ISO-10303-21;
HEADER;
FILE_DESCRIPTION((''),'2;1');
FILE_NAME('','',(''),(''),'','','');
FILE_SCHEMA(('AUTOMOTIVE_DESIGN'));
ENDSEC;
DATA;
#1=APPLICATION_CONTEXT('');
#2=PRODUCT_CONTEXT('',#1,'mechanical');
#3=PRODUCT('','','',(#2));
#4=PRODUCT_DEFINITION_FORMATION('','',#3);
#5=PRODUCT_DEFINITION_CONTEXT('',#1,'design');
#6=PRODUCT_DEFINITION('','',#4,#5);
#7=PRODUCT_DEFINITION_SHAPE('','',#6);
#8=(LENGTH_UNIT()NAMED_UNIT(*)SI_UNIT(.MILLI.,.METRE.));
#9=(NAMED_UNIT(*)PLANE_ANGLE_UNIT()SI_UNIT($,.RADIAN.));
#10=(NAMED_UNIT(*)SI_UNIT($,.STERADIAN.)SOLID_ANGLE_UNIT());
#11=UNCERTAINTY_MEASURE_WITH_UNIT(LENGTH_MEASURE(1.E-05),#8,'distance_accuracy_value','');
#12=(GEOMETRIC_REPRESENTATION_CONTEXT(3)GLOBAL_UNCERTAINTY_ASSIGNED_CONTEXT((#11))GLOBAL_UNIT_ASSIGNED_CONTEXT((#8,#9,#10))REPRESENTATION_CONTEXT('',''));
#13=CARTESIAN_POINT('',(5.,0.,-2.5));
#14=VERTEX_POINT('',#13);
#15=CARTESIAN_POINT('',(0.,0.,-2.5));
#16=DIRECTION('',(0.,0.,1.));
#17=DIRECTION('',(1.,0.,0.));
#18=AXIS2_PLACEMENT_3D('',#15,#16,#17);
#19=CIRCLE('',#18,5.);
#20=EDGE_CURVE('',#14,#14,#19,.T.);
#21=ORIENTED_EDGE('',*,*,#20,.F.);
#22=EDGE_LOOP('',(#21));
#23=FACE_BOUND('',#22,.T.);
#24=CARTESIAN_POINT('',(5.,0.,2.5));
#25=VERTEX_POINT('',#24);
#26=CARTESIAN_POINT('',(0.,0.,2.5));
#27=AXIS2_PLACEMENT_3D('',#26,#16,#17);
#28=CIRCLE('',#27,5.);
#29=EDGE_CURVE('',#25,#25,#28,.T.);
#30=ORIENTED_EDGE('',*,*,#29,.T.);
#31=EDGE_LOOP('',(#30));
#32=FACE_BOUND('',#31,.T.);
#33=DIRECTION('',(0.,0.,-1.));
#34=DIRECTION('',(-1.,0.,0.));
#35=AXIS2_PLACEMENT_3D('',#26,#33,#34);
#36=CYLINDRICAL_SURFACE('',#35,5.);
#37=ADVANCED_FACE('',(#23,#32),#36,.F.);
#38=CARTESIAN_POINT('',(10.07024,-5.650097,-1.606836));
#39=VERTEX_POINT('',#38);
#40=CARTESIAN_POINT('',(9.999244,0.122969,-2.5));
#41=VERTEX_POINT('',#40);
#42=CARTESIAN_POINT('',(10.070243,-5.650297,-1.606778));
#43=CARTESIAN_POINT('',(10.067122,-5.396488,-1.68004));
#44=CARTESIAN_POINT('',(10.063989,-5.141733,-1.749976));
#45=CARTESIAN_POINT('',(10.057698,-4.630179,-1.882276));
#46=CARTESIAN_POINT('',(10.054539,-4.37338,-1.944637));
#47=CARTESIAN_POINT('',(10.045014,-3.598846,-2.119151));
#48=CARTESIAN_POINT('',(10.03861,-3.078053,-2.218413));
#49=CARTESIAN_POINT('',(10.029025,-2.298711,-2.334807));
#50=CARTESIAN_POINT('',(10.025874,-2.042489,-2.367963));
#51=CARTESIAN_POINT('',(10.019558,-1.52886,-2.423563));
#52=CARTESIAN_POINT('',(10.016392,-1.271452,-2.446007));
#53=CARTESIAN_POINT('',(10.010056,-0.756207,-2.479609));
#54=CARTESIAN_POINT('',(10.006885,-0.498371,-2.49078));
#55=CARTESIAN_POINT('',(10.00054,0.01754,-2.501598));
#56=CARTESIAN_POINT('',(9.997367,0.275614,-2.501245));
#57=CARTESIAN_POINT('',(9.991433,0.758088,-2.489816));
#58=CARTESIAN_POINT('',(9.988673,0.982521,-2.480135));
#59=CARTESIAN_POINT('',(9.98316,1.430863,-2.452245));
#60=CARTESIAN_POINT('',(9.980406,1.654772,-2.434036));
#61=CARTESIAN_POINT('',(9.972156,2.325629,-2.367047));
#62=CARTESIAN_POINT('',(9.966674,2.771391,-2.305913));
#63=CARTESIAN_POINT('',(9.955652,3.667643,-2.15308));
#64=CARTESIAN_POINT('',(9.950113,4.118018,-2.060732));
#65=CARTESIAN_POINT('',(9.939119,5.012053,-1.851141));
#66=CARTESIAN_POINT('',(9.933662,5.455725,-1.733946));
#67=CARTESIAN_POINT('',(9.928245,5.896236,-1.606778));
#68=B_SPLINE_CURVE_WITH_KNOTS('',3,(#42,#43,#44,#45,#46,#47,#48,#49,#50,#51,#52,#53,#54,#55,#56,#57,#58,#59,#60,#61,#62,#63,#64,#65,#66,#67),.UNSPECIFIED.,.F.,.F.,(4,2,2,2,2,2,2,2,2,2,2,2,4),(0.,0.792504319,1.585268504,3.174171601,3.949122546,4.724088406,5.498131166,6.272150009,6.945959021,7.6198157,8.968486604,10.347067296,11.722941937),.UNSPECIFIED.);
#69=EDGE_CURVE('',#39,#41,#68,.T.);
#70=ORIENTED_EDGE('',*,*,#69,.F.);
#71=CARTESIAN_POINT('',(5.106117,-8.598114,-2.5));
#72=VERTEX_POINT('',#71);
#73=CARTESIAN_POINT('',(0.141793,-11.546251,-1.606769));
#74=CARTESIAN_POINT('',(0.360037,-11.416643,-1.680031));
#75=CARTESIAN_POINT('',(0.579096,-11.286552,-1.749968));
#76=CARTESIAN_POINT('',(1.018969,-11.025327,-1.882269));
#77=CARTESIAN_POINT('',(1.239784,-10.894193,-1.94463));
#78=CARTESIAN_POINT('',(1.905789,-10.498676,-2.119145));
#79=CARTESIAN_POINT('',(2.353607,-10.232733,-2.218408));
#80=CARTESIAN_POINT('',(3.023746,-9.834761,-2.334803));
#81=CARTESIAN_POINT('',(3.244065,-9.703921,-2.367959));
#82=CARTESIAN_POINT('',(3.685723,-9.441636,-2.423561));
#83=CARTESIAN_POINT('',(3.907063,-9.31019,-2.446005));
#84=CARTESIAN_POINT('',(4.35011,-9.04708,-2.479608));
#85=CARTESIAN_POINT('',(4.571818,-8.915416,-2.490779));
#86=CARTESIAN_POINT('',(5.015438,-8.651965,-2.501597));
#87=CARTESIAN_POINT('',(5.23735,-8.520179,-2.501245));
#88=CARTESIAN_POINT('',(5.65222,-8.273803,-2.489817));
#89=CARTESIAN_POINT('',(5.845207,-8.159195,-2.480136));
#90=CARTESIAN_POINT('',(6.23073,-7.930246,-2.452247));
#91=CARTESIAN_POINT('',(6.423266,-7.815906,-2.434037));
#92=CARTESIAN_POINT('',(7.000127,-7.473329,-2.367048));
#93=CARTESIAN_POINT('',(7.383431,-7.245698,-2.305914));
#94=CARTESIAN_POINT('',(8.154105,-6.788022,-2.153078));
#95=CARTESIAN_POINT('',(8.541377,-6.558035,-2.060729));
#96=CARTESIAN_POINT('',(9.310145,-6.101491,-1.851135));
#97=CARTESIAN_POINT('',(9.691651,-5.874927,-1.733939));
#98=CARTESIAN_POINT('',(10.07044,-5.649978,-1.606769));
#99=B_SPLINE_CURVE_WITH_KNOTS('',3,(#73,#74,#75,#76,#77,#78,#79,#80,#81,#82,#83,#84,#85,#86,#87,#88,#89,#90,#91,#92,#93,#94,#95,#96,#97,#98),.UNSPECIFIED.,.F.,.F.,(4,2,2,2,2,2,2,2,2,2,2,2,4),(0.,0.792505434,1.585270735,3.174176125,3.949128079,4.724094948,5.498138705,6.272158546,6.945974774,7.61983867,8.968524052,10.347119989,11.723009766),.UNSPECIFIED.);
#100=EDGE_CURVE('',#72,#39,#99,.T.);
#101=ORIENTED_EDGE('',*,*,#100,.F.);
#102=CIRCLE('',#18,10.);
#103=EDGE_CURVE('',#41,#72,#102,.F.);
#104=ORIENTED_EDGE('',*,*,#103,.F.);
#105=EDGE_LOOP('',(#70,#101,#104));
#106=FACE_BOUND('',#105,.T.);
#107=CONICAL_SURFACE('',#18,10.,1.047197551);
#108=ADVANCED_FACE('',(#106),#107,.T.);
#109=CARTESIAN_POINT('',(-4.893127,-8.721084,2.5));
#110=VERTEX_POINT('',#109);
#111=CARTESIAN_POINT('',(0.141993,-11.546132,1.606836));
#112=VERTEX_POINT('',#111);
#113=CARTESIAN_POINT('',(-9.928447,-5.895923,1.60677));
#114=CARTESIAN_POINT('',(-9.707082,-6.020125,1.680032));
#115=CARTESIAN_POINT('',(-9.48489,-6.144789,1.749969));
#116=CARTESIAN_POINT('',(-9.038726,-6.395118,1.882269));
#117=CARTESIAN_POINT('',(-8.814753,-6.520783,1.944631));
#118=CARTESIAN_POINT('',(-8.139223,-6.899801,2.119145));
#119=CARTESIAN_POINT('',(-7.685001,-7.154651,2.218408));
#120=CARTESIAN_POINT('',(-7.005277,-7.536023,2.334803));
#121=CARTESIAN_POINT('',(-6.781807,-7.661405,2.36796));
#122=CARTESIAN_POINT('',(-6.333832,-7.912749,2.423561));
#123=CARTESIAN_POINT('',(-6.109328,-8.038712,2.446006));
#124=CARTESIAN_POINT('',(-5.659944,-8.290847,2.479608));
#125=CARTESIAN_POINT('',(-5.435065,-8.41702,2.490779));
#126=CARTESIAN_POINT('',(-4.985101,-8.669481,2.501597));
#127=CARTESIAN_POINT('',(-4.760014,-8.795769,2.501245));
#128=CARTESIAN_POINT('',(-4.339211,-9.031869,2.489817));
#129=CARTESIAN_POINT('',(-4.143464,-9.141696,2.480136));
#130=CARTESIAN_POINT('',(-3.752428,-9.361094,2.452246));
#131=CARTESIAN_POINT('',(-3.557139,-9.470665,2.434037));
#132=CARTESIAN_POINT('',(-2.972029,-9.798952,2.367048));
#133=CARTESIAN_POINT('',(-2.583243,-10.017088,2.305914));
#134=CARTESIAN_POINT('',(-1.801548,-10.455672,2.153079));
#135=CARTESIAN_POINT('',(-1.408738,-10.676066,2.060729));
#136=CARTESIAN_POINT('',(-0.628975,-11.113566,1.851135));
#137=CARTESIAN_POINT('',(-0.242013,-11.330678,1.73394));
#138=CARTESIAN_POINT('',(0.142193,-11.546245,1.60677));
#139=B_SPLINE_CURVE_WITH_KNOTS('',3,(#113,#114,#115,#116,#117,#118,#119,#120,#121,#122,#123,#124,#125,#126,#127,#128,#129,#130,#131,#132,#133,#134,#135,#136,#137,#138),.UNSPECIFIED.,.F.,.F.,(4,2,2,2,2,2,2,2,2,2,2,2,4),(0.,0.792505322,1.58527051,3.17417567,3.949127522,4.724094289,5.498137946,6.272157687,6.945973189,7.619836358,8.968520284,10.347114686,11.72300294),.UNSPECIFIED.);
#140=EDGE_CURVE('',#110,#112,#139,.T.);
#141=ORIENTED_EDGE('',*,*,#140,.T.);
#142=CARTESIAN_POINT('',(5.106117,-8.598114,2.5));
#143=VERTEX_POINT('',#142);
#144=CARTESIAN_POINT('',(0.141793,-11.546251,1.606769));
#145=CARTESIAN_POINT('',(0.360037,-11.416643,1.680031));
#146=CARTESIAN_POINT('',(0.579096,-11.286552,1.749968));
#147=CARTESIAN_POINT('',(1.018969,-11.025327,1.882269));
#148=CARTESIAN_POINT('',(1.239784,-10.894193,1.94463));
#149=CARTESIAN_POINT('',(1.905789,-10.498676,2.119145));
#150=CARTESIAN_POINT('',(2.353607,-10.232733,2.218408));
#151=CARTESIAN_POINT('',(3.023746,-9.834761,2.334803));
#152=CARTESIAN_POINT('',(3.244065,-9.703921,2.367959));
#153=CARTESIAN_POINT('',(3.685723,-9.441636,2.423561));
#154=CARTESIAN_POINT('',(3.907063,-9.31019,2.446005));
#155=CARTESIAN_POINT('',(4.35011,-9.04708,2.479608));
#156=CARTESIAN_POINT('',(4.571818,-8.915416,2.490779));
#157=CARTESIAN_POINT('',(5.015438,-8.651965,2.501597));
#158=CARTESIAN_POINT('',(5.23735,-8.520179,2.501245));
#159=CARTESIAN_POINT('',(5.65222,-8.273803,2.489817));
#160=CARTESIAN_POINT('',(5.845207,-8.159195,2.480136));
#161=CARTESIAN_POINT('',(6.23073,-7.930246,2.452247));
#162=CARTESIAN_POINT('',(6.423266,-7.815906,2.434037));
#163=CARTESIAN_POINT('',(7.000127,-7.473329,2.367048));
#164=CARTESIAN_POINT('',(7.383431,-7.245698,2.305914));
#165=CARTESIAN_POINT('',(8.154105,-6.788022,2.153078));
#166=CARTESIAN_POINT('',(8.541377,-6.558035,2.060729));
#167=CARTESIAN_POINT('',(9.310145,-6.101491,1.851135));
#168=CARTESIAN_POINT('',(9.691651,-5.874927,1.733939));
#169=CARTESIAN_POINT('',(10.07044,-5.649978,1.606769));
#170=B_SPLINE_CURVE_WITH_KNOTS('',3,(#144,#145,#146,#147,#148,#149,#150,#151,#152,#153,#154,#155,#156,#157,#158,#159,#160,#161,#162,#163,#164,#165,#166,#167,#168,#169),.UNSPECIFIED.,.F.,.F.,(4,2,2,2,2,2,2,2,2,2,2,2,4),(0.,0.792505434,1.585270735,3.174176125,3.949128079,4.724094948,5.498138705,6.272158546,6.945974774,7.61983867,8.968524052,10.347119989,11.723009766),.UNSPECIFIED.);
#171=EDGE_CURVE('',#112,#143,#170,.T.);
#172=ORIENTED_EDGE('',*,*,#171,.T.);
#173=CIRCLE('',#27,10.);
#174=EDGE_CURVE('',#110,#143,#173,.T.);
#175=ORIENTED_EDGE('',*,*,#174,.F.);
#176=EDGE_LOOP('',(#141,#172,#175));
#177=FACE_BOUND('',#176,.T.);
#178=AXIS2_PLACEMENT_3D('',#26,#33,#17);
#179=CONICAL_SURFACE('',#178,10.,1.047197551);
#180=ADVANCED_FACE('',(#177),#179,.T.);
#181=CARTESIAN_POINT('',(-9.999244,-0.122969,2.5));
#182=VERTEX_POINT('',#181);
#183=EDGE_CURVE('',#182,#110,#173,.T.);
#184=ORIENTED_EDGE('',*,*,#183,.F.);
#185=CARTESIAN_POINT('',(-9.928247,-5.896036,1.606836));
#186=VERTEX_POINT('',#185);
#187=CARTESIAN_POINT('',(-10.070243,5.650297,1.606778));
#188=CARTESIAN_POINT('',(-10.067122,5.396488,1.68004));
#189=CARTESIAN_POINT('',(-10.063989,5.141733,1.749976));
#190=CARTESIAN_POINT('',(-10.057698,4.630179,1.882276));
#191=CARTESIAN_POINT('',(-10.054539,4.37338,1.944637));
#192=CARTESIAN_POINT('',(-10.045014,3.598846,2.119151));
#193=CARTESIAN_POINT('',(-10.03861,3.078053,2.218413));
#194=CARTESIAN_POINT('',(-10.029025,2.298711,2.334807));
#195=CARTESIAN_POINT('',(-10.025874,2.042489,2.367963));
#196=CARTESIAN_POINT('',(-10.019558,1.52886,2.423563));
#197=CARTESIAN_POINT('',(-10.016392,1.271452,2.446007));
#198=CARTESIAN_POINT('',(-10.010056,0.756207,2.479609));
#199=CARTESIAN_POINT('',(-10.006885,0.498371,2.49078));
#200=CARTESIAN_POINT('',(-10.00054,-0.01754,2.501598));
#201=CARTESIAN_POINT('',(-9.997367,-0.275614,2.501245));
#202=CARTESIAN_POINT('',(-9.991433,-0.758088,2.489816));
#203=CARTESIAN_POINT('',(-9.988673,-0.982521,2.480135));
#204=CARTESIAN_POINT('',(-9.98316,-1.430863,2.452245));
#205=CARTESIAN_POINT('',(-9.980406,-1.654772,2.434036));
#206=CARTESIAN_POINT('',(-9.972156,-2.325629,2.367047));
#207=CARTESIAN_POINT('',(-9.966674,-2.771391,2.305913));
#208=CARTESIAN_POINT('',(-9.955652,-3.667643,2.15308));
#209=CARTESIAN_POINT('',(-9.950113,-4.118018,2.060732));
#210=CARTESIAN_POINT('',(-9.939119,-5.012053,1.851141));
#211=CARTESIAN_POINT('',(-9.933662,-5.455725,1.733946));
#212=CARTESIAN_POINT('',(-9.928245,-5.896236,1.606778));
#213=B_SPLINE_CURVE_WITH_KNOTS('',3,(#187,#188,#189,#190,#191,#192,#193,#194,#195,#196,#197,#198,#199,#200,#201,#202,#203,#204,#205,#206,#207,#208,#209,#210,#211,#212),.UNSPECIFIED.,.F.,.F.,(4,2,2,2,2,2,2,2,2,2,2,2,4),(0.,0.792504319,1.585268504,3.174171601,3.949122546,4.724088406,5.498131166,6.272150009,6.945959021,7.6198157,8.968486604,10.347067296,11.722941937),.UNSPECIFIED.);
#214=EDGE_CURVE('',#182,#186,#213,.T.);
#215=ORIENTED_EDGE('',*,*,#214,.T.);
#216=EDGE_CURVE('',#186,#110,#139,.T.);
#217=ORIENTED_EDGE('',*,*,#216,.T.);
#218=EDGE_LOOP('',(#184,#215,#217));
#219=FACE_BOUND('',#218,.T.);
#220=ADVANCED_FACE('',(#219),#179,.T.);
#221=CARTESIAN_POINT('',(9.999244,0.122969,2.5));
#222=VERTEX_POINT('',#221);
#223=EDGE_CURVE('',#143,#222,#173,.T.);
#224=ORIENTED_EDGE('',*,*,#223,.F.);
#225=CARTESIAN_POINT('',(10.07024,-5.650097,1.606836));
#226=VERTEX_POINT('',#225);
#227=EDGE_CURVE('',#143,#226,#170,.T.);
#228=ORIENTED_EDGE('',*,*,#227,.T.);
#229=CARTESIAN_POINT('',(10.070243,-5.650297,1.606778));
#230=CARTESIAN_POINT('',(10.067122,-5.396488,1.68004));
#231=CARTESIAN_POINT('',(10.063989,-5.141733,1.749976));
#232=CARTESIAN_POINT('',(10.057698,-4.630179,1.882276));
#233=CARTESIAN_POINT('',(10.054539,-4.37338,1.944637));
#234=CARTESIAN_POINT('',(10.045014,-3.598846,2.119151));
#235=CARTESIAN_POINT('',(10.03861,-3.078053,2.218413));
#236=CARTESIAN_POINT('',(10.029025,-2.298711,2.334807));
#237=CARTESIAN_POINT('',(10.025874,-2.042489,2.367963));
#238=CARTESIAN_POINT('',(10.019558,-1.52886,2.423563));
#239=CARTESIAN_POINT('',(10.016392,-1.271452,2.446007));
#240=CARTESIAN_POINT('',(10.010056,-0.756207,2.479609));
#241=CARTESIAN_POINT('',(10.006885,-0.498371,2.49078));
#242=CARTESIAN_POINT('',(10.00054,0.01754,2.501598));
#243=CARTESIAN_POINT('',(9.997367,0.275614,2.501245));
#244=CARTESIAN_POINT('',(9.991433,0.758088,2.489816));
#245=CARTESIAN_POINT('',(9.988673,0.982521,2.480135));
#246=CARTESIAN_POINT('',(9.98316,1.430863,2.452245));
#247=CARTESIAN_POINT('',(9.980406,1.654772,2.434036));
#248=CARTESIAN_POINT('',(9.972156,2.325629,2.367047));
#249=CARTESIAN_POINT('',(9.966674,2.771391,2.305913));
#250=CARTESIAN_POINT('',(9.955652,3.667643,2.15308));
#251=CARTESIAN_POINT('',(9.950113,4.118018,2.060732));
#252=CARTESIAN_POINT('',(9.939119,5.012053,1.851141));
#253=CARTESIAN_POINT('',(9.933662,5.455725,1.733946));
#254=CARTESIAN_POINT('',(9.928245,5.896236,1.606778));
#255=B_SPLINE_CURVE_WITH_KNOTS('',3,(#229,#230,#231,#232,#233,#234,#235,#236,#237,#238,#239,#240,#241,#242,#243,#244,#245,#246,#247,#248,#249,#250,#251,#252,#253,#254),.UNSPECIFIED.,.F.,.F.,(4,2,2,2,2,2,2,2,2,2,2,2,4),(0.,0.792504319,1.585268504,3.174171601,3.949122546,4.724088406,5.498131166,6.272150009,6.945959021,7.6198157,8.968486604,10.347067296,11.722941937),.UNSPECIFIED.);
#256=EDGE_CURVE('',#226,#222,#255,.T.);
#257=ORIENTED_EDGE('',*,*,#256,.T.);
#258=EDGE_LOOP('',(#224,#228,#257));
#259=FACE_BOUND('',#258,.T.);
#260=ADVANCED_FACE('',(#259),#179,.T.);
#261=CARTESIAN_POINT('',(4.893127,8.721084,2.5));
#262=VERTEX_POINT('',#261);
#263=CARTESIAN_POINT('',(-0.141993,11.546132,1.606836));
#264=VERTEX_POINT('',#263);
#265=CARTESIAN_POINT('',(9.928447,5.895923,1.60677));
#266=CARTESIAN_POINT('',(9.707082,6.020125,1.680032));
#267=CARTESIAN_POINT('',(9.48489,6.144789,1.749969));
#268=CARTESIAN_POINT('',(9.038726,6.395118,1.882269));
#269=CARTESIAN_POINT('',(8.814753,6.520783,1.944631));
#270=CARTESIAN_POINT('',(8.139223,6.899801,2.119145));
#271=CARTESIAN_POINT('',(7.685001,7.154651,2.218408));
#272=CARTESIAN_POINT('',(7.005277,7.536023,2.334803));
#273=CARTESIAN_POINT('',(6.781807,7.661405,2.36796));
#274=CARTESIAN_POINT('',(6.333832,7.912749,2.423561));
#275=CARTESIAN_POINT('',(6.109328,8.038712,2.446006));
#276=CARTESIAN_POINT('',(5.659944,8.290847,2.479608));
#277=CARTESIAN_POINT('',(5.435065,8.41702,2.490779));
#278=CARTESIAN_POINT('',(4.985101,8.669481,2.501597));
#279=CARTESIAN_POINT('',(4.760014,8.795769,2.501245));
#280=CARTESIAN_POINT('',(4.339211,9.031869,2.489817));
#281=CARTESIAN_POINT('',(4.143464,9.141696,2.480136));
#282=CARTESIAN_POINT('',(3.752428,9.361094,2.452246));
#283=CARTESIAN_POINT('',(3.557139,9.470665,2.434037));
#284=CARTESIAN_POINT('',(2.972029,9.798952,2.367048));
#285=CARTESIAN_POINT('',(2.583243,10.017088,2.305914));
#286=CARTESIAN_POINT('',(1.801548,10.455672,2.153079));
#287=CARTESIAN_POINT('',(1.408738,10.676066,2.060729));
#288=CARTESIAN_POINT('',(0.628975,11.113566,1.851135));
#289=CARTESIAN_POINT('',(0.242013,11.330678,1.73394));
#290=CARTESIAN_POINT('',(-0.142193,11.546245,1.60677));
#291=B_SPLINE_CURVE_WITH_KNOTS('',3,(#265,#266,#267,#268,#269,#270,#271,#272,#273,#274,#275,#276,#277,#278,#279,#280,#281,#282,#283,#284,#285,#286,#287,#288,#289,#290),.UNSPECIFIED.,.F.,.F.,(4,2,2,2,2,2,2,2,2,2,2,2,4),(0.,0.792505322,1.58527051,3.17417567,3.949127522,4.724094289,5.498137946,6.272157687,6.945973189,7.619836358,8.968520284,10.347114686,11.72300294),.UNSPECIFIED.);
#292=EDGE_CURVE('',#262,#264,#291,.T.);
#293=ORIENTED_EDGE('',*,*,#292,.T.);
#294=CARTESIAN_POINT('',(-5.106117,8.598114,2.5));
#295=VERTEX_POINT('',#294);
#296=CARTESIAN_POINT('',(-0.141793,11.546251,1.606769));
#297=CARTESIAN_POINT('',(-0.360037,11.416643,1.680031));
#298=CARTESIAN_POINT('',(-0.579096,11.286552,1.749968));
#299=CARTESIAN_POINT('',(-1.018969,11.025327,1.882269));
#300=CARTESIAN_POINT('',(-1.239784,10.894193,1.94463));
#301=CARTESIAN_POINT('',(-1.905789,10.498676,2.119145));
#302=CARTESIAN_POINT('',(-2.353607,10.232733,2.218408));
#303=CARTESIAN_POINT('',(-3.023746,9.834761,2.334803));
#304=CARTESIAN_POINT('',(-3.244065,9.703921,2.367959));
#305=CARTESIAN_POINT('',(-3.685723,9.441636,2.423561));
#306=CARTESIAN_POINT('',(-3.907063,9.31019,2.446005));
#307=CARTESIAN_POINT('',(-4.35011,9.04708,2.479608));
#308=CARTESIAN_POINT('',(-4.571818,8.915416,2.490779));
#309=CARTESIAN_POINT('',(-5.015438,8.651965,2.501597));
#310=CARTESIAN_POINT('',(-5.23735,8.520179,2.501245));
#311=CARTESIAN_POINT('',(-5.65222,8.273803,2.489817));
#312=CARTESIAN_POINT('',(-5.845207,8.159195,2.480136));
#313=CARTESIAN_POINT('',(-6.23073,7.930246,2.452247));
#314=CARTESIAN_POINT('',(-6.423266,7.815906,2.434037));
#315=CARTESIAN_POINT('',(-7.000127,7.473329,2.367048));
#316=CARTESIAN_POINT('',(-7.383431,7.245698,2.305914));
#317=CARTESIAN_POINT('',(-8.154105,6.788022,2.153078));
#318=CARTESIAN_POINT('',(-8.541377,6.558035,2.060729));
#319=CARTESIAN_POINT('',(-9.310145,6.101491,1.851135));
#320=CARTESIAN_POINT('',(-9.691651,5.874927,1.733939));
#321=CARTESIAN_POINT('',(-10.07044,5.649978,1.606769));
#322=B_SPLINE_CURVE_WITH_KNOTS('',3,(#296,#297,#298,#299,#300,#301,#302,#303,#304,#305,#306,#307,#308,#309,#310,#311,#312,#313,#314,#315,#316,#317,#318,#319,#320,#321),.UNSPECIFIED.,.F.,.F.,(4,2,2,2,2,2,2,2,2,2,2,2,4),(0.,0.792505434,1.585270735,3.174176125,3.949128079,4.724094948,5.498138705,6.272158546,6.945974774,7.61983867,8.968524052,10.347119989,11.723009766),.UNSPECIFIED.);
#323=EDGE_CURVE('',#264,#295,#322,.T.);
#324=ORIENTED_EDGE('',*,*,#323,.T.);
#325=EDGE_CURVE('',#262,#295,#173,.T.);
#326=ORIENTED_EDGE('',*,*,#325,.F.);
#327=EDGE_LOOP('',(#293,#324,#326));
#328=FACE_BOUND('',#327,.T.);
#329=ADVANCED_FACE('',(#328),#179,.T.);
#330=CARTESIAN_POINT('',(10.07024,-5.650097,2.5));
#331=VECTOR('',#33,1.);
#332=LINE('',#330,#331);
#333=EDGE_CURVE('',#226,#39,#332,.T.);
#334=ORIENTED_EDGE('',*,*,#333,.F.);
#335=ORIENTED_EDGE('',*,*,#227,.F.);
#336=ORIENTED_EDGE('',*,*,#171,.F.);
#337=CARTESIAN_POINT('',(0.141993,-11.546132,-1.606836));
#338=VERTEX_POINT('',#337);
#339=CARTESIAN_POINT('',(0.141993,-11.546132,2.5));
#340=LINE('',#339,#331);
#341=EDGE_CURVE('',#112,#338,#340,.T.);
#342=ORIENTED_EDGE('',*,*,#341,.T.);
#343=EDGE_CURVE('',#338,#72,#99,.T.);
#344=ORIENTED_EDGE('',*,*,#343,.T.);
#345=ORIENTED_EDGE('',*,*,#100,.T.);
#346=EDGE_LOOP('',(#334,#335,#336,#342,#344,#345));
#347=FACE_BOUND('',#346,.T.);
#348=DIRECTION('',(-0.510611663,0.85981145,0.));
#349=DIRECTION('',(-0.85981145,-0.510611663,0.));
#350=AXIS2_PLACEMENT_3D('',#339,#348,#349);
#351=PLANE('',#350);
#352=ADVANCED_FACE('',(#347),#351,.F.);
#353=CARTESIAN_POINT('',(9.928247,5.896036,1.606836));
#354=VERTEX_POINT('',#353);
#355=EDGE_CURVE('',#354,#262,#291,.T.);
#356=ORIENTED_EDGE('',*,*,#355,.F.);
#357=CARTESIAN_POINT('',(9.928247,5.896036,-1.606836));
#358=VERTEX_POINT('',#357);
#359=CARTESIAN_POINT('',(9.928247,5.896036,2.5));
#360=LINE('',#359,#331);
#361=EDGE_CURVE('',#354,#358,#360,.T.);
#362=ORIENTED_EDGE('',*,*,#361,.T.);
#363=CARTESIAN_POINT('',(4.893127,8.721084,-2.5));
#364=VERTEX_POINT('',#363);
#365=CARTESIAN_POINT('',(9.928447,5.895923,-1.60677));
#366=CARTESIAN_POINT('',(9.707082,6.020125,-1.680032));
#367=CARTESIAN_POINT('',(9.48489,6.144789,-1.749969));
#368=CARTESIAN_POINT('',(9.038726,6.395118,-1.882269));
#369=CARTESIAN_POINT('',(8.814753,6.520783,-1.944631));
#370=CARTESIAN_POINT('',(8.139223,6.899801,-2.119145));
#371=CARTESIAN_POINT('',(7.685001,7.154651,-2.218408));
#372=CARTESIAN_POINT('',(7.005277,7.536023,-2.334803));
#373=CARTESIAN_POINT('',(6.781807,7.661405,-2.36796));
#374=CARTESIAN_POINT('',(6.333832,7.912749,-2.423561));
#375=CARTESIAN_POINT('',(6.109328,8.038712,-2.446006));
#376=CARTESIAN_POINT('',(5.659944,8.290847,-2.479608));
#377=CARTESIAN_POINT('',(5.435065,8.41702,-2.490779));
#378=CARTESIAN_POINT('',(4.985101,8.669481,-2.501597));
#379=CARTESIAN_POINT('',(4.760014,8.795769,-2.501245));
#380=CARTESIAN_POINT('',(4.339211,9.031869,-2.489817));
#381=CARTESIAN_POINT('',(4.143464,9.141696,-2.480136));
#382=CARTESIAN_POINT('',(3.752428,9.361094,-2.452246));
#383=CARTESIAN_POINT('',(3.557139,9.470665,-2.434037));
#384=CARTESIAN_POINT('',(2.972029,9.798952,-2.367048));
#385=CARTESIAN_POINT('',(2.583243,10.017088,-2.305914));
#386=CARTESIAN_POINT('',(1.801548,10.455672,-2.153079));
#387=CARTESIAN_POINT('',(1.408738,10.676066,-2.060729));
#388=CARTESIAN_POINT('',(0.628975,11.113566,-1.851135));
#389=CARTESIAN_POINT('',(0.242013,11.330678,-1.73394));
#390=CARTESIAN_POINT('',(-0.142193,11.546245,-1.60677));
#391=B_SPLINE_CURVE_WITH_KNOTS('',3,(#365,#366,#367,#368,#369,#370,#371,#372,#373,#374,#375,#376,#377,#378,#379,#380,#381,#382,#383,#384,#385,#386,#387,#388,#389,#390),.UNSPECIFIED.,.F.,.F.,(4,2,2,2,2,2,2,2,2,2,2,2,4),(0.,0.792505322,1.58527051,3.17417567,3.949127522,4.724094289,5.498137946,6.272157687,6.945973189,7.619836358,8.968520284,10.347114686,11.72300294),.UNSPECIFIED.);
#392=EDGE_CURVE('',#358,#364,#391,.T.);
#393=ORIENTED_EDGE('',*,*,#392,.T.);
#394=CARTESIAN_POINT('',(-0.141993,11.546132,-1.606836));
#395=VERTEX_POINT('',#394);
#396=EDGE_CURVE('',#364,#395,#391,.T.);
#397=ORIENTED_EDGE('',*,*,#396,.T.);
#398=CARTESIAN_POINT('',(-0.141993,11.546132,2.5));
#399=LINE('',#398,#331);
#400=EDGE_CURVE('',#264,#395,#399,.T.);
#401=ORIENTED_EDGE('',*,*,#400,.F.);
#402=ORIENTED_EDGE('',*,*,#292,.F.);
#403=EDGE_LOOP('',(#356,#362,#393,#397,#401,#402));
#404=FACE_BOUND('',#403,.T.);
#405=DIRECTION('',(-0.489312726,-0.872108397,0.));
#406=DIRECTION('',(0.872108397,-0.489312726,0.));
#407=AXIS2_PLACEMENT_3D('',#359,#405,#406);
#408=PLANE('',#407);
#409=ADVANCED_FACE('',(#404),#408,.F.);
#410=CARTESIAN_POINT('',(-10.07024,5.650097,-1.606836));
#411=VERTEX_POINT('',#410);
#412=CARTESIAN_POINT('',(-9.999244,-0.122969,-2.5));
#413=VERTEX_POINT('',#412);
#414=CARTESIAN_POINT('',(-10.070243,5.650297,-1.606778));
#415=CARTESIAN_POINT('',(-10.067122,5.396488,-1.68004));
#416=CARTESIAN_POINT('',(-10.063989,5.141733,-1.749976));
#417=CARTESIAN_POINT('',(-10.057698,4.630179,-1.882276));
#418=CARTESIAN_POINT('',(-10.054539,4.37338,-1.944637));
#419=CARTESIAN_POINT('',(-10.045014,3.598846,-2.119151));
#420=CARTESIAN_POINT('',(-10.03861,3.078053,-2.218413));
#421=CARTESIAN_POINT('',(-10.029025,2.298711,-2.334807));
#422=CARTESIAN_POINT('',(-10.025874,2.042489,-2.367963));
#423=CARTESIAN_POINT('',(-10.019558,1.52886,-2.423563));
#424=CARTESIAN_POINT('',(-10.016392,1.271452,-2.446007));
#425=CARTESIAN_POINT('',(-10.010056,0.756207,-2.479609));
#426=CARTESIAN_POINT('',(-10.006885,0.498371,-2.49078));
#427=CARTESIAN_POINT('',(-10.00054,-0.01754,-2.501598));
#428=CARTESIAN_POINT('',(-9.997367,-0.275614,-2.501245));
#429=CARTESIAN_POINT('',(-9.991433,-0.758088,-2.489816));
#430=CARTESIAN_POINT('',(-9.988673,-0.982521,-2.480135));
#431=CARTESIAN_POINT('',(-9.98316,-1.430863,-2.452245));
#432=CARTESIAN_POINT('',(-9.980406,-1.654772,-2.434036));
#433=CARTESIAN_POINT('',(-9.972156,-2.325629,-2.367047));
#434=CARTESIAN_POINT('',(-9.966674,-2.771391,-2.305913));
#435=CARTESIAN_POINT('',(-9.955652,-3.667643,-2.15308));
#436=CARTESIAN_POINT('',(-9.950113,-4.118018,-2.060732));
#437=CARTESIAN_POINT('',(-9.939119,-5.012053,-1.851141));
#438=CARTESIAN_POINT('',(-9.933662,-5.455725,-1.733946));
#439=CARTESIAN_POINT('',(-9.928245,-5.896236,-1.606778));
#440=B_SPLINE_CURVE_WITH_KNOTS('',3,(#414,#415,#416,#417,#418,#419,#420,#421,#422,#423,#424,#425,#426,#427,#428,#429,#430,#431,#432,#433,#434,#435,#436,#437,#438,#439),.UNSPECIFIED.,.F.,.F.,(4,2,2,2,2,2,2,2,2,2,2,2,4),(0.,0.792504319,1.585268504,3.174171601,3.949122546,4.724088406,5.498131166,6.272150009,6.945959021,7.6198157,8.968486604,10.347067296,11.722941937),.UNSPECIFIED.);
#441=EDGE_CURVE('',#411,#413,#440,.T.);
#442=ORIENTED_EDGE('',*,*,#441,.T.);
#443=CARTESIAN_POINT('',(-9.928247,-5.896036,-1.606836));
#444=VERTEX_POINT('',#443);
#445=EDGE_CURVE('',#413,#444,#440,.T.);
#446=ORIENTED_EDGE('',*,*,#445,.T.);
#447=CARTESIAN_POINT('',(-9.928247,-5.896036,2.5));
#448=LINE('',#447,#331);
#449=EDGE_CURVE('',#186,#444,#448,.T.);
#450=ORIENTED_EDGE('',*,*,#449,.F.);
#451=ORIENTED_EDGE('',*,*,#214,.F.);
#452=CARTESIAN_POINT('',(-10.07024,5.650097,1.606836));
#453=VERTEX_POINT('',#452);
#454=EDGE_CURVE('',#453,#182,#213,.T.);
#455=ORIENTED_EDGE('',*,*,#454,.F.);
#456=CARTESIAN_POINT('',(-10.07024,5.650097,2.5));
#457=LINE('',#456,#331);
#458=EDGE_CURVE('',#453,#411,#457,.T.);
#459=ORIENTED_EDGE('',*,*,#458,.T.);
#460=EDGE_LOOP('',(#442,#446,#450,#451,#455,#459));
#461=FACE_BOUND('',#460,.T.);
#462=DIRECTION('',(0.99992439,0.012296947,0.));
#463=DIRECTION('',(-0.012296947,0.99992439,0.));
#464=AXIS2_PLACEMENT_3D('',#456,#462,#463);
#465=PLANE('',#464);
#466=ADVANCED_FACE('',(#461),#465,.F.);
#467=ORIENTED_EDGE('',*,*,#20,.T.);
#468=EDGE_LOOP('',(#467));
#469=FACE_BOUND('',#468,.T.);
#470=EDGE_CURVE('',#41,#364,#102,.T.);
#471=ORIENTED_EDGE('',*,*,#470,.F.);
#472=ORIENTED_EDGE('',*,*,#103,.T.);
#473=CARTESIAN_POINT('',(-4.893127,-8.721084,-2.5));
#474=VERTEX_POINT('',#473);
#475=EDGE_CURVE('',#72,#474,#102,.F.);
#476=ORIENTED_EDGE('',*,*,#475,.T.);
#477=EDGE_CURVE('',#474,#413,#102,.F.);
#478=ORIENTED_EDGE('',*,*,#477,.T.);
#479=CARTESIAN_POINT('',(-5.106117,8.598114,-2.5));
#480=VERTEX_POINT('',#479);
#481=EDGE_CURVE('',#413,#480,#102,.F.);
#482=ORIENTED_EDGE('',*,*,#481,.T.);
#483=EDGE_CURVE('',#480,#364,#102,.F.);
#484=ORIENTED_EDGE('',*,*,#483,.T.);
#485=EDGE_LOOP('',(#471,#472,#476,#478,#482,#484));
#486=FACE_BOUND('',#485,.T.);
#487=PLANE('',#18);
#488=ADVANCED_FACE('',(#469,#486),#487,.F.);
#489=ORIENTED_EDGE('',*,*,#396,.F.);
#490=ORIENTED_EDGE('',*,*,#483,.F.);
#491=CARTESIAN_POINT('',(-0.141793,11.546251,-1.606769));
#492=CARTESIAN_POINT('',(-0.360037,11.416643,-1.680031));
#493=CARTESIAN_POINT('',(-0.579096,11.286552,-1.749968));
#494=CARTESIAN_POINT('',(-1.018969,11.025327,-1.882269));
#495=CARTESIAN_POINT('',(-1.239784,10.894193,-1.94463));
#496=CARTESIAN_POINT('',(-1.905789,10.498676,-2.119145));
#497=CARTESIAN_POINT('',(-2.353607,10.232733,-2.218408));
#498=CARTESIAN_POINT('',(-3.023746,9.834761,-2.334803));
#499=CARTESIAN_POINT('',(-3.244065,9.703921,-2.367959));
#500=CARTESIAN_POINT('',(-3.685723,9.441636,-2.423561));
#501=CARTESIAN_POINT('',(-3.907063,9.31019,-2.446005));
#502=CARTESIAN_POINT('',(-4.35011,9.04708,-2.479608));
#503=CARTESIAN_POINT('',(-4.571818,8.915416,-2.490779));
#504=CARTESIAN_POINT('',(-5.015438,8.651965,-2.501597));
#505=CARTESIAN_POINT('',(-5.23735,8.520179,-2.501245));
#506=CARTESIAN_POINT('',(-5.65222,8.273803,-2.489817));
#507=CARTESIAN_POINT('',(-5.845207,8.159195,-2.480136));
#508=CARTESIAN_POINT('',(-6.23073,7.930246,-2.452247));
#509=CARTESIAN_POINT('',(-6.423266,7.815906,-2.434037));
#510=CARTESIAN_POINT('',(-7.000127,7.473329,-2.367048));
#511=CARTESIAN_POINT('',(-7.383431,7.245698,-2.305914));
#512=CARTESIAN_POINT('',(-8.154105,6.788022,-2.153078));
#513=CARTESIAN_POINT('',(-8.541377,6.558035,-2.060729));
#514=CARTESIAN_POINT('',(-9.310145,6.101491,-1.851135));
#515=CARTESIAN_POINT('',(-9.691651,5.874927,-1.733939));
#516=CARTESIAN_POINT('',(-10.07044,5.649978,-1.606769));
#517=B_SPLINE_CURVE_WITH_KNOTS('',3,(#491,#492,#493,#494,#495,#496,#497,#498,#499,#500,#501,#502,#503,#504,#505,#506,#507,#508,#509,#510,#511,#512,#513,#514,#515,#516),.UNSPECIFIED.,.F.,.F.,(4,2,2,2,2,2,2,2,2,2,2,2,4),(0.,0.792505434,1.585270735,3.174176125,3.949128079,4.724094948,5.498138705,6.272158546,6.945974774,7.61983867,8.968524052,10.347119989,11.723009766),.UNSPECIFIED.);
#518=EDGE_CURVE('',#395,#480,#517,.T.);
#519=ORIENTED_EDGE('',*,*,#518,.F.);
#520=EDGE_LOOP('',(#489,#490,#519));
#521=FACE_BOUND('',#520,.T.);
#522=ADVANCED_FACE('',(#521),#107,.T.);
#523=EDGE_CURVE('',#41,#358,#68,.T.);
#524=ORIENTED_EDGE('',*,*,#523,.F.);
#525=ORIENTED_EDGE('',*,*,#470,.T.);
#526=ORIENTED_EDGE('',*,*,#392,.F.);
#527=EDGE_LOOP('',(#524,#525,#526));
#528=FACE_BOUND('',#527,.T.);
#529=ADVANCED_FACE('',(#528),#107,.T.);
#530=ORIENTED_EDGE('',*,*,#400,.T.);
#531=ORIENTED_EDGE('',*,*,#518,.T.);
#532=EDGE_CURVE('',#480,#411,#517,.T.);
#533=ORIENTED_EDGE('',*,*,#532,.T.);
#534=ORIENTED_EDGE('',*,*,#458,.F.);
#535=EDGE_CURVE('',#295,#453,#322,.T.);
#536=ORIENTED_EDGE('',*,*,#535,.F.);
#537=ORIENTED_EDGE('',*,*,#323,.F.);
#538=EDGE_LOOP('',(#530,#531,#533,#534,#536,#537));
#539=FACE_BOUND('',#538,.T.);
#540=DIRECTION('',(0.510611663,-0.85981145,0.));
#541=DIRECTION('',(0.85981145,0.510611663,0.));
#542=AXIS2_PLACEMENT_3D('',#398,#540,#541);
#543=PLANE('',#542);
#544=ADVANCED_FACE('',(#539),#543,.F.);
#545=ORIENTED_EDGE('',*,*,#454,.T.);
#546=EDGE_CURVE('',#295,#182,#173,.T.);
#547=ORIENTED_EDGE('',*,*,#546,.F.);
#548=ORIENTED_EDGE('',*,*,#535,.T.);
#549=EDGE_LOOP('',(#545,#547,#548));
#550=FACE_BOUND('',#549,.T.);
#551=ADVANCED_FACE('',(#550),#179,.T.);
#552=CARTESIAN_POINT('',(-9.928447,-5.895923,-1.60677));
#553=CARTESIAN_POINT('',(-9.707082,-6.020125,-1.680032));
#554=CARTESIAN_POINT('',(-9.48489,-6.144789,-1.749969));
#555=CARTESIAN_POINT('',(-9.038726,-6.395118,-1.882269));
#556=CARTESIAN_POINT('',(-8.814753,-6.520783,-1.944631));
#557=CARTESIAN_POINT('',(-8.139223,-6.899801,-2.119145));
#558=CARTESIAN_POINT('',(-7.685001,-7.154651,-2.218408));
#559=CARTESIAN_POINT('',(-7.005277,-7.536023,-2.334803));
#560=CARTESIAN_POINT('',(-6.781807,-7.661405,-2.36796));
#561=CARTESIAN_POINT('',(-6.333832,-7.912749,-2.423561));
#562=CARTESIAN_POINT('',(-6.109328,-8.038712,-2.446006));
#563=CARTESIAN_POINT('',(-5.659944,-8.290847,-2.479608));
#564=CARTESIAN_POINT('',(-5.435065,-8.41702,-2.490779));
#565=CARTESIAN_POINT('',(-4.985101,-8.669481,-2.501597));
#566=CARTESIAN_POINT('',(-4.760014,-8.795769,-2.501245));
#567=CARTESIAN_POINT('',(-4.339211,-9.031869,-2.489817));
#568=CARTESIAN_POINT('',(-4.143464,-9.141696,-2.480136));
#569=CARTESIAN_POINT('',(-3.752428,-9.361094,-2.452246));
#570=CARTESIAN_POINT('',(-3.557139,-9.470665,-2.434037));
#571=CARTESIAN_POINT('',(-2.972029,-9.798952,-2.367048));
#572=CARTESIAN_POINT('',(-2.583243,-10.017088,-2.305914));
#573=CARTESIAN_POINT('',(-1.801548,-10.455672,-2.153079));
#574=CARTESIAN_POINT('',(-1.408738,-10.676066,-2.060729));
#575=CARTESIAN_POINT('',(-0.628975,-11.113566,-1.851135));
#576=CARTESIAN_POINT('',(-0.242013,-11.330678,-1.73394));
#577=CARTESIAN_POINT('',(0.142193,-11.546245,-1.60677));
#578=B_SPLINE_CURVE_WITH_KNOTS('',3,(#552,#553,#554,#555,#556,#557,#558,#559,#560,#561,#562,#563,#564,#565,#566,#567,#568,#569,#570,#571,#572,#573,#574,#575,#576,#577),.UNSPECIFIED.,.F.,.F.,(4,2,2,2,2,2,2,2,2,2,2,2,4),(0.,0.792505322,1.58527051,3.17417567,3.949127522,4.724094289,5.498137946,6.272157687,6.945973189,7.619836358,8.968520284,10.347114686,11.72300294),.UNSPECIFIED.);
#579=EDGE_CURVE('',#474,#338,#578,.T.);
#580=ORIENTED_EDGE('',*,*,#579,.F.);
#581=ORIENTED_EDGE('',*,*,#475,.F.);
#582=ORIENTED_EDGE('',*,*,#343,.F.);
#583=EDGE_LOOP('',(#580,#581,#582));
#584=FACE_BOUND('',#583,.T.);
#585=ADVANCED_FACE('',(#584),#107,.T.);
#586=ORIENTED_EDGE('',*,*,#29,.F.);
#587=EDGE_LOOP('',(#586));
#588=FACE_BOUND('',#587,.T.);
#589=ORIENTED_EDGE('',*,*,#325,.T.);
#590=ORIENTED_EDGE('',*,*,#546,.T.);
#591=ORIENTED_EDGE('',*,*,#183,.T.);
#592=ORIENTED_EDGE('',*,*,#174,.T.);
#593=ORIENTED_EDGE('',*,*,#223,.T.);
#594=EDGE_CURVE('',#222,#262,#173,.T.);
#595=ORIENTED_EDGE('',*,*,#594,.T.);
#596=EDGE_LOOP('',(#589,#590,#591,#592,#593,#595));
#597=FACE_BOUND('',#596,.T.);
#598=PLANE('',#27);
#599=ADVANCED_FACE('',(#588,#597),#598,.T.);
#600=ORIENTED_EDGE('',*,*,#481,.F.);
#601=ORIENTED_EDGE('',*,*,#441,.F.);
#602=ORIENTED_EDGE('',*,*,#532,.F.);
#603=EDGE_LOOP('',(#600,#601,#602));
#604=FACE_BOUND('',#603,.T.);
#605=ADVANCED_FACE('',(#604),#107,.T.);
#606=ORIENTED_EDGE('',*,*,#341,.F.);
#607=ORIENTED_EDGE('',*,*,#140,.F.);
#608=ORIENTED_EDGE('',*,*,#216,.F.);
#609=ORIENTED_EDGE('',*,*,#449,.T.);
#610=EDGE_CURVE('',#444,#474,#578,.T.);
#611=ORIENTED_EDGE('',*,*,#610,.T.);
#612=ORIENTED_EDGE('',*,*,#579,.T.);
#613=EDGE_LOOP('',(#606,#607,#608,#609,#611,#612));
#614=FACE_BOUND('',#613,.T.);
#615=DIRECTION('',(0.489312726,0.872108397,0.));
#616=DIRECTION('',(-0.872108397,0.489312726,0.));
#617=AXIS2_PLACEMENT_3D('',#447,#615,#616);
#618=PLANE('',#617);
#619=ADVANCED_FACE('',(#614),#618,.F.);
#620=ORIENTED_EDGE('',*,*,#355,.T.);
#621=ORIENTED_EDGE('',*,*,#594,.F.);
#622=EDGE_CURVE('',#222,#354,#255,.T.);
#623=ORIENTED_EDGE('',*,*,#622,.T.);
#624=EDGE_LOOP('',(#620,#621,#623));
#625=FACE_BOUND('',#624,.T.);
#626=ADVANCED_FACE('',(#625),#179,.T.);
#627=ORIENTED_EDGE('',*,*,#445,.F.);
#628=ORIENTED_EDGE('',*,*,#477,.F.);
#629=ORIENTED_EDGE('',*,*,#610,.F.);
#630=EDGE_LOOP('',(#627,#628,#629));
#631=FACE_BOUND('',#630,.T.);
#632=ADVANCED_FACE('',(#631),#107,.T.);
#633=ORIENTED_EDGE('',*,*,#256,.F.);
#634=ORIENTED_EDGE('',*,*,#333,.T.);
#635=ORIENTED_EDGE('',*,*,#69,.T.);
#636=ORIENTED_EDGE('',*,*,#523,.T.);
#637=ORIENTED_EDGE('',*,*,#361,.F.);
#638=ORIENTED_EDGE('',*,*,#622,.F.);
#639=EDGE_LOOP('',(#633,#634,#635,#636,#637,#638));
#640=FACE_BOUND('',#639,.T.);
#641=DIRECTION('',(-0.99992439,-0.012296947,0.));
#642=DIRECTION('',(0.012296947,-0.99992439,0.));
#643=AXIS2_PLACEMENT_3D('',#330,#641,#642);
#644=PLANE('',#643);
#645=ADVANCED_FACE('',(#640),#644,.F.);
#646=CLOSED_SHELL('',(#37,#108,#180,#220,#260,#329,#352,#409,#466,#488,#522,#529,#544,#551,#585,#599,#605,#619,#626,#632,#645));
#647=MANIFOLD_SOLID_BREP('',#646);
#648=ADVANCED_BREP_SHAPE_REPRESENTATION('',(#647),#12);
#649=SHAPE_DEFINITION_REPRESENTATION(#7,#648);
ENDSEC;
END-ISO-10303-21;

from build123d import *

# Parameters (mm, degrees)
SKETCH1_R               = 5
BOSS_EXTRUDE1_DEPTH     = 2.5
SKETCH2_OUTSIDE_W       = 45.67
SKETCH2_OUTSIDE_H       = 48.622
SKETCH2_OUTSIDE_R       = 10
CUT_EXTRUDE1_DEPTH      = 5
CUT_EXTRUDE1_DRAFT      = -60
MIRROR1_COPY_1_SKETCH_W = 45.67
MIRROR1_COPY_1_SKETCH_H = 48.622
MIRROR1_COPY_1_SKETCH_R = 10
MIRROR1_COPY_1_DEPTH    = 5
MIRROR1_COPY_1_DRAFT    = -60


with BuildPart() as part:
    # Sketch1 → Boss-Extrude1 (new, symmetric)
    with BuildSketch(Plane.XY):
        Polygon((10.070240353, -5.650096687), (9.928247441, 5.896035625), (-0.141992912, 11.546132311), (-10.070240353, 5.650096687), (-9.928247441, -5.896035625), (0.141992912, -11.546132311), align=None)
        Circle(SKETCH1_R, mode=Mode.SUBTRACT)
    extrude(amount=BOSS_EXTRUDE1_DEPTH, both=True)


with BuildPart() as cut_extrude1_tool:
    # Sketch2 outside → Cut-Extrude1 (with draft: the straight prism first)
    with BuildSketch(Plane.XY.offset(2.5)):
        Rectangle(SKETCH2_OUTSIDE_W, SKETCH2_OUTSIDE_H)
        Circle(SKETCH2_OUTSIDE_R, mode=Mode.SUBTRACT)
    extrude(amount=-CUT_EXTRUDE1_DEPTH)
    # Cut-Extrude1: the draft: its side faces are tilted about the plane it starts from
    cut_extrude1_sides = [cut_extrude1_tool.faces().sort_by_distance(p)[0] for p in [
        (0, -24.311, 0),
        (22.835, 0, 0),
        (0, 24.311, 0),
        (-22.835, 0, 0),
        (-10, 0, 0),
    ]]
    draft(cut_extrude1_sides, Plane.XY.offset(2.5), CUT_EXTRUDE1_DRAFT)


with BuildPart() as part_1:
    add(part.part)

    # Cut-Extrude1: cut by cut_extrude1_tool
    add(cut_extrude1_tool.part, mode=Mode.SUBTRACT)


with BuildPart() as mirror1_copy_1_tool:
    # Mirror1 copy 1 sketch → Mirror1 copy 1 (with draft: the straight prism first)
    with BuildSketch(Plane(origin=(0, 0, -2.5), x_dir=(1, 0, 0), z_dir=(0, 0, -1))):
        Rectangle(MIRROR1_COPY_1_SKETCH_W, MIRROR1_COPY_1_SKETCH_H)
        Circle(MIRROR1_COPY_1_SKETCH_R, mode=Mode.SUBTRACT)
    extrude(amount=-MIRROR1_COPY_1_DEPTH)
    # Mirror1 copy 1: the draft: its side faces are tilted about the plane it starts from
    mirror1_copy_1_sides = [mirror1_copy_1_tool.faces().sort_by_distance(p)[0] for p in [
        (0, -24.311, 0),
        (22.835, 0, 0),
        (0, 24.311, 0),
        (-22.835, 0, 0),
        (-10, 0, 0),
    ]]
    draft(mirror1_copy_1_sides, Plane(origin=(0, 0, -2.5), x_dir=(1, 0, 0), z_dir=(0, 0, -1)), MIRROR1_COPY_1_DRAFT)


with BuildPart() as part_2:
    add(part_1.part)

    # Mirror1 copy 1: cut by mirror1_copy_1_tool
    add(mirror1_copy_1_tool.part, mode=Mode.SUBTRACT)


solid = part_2.part
